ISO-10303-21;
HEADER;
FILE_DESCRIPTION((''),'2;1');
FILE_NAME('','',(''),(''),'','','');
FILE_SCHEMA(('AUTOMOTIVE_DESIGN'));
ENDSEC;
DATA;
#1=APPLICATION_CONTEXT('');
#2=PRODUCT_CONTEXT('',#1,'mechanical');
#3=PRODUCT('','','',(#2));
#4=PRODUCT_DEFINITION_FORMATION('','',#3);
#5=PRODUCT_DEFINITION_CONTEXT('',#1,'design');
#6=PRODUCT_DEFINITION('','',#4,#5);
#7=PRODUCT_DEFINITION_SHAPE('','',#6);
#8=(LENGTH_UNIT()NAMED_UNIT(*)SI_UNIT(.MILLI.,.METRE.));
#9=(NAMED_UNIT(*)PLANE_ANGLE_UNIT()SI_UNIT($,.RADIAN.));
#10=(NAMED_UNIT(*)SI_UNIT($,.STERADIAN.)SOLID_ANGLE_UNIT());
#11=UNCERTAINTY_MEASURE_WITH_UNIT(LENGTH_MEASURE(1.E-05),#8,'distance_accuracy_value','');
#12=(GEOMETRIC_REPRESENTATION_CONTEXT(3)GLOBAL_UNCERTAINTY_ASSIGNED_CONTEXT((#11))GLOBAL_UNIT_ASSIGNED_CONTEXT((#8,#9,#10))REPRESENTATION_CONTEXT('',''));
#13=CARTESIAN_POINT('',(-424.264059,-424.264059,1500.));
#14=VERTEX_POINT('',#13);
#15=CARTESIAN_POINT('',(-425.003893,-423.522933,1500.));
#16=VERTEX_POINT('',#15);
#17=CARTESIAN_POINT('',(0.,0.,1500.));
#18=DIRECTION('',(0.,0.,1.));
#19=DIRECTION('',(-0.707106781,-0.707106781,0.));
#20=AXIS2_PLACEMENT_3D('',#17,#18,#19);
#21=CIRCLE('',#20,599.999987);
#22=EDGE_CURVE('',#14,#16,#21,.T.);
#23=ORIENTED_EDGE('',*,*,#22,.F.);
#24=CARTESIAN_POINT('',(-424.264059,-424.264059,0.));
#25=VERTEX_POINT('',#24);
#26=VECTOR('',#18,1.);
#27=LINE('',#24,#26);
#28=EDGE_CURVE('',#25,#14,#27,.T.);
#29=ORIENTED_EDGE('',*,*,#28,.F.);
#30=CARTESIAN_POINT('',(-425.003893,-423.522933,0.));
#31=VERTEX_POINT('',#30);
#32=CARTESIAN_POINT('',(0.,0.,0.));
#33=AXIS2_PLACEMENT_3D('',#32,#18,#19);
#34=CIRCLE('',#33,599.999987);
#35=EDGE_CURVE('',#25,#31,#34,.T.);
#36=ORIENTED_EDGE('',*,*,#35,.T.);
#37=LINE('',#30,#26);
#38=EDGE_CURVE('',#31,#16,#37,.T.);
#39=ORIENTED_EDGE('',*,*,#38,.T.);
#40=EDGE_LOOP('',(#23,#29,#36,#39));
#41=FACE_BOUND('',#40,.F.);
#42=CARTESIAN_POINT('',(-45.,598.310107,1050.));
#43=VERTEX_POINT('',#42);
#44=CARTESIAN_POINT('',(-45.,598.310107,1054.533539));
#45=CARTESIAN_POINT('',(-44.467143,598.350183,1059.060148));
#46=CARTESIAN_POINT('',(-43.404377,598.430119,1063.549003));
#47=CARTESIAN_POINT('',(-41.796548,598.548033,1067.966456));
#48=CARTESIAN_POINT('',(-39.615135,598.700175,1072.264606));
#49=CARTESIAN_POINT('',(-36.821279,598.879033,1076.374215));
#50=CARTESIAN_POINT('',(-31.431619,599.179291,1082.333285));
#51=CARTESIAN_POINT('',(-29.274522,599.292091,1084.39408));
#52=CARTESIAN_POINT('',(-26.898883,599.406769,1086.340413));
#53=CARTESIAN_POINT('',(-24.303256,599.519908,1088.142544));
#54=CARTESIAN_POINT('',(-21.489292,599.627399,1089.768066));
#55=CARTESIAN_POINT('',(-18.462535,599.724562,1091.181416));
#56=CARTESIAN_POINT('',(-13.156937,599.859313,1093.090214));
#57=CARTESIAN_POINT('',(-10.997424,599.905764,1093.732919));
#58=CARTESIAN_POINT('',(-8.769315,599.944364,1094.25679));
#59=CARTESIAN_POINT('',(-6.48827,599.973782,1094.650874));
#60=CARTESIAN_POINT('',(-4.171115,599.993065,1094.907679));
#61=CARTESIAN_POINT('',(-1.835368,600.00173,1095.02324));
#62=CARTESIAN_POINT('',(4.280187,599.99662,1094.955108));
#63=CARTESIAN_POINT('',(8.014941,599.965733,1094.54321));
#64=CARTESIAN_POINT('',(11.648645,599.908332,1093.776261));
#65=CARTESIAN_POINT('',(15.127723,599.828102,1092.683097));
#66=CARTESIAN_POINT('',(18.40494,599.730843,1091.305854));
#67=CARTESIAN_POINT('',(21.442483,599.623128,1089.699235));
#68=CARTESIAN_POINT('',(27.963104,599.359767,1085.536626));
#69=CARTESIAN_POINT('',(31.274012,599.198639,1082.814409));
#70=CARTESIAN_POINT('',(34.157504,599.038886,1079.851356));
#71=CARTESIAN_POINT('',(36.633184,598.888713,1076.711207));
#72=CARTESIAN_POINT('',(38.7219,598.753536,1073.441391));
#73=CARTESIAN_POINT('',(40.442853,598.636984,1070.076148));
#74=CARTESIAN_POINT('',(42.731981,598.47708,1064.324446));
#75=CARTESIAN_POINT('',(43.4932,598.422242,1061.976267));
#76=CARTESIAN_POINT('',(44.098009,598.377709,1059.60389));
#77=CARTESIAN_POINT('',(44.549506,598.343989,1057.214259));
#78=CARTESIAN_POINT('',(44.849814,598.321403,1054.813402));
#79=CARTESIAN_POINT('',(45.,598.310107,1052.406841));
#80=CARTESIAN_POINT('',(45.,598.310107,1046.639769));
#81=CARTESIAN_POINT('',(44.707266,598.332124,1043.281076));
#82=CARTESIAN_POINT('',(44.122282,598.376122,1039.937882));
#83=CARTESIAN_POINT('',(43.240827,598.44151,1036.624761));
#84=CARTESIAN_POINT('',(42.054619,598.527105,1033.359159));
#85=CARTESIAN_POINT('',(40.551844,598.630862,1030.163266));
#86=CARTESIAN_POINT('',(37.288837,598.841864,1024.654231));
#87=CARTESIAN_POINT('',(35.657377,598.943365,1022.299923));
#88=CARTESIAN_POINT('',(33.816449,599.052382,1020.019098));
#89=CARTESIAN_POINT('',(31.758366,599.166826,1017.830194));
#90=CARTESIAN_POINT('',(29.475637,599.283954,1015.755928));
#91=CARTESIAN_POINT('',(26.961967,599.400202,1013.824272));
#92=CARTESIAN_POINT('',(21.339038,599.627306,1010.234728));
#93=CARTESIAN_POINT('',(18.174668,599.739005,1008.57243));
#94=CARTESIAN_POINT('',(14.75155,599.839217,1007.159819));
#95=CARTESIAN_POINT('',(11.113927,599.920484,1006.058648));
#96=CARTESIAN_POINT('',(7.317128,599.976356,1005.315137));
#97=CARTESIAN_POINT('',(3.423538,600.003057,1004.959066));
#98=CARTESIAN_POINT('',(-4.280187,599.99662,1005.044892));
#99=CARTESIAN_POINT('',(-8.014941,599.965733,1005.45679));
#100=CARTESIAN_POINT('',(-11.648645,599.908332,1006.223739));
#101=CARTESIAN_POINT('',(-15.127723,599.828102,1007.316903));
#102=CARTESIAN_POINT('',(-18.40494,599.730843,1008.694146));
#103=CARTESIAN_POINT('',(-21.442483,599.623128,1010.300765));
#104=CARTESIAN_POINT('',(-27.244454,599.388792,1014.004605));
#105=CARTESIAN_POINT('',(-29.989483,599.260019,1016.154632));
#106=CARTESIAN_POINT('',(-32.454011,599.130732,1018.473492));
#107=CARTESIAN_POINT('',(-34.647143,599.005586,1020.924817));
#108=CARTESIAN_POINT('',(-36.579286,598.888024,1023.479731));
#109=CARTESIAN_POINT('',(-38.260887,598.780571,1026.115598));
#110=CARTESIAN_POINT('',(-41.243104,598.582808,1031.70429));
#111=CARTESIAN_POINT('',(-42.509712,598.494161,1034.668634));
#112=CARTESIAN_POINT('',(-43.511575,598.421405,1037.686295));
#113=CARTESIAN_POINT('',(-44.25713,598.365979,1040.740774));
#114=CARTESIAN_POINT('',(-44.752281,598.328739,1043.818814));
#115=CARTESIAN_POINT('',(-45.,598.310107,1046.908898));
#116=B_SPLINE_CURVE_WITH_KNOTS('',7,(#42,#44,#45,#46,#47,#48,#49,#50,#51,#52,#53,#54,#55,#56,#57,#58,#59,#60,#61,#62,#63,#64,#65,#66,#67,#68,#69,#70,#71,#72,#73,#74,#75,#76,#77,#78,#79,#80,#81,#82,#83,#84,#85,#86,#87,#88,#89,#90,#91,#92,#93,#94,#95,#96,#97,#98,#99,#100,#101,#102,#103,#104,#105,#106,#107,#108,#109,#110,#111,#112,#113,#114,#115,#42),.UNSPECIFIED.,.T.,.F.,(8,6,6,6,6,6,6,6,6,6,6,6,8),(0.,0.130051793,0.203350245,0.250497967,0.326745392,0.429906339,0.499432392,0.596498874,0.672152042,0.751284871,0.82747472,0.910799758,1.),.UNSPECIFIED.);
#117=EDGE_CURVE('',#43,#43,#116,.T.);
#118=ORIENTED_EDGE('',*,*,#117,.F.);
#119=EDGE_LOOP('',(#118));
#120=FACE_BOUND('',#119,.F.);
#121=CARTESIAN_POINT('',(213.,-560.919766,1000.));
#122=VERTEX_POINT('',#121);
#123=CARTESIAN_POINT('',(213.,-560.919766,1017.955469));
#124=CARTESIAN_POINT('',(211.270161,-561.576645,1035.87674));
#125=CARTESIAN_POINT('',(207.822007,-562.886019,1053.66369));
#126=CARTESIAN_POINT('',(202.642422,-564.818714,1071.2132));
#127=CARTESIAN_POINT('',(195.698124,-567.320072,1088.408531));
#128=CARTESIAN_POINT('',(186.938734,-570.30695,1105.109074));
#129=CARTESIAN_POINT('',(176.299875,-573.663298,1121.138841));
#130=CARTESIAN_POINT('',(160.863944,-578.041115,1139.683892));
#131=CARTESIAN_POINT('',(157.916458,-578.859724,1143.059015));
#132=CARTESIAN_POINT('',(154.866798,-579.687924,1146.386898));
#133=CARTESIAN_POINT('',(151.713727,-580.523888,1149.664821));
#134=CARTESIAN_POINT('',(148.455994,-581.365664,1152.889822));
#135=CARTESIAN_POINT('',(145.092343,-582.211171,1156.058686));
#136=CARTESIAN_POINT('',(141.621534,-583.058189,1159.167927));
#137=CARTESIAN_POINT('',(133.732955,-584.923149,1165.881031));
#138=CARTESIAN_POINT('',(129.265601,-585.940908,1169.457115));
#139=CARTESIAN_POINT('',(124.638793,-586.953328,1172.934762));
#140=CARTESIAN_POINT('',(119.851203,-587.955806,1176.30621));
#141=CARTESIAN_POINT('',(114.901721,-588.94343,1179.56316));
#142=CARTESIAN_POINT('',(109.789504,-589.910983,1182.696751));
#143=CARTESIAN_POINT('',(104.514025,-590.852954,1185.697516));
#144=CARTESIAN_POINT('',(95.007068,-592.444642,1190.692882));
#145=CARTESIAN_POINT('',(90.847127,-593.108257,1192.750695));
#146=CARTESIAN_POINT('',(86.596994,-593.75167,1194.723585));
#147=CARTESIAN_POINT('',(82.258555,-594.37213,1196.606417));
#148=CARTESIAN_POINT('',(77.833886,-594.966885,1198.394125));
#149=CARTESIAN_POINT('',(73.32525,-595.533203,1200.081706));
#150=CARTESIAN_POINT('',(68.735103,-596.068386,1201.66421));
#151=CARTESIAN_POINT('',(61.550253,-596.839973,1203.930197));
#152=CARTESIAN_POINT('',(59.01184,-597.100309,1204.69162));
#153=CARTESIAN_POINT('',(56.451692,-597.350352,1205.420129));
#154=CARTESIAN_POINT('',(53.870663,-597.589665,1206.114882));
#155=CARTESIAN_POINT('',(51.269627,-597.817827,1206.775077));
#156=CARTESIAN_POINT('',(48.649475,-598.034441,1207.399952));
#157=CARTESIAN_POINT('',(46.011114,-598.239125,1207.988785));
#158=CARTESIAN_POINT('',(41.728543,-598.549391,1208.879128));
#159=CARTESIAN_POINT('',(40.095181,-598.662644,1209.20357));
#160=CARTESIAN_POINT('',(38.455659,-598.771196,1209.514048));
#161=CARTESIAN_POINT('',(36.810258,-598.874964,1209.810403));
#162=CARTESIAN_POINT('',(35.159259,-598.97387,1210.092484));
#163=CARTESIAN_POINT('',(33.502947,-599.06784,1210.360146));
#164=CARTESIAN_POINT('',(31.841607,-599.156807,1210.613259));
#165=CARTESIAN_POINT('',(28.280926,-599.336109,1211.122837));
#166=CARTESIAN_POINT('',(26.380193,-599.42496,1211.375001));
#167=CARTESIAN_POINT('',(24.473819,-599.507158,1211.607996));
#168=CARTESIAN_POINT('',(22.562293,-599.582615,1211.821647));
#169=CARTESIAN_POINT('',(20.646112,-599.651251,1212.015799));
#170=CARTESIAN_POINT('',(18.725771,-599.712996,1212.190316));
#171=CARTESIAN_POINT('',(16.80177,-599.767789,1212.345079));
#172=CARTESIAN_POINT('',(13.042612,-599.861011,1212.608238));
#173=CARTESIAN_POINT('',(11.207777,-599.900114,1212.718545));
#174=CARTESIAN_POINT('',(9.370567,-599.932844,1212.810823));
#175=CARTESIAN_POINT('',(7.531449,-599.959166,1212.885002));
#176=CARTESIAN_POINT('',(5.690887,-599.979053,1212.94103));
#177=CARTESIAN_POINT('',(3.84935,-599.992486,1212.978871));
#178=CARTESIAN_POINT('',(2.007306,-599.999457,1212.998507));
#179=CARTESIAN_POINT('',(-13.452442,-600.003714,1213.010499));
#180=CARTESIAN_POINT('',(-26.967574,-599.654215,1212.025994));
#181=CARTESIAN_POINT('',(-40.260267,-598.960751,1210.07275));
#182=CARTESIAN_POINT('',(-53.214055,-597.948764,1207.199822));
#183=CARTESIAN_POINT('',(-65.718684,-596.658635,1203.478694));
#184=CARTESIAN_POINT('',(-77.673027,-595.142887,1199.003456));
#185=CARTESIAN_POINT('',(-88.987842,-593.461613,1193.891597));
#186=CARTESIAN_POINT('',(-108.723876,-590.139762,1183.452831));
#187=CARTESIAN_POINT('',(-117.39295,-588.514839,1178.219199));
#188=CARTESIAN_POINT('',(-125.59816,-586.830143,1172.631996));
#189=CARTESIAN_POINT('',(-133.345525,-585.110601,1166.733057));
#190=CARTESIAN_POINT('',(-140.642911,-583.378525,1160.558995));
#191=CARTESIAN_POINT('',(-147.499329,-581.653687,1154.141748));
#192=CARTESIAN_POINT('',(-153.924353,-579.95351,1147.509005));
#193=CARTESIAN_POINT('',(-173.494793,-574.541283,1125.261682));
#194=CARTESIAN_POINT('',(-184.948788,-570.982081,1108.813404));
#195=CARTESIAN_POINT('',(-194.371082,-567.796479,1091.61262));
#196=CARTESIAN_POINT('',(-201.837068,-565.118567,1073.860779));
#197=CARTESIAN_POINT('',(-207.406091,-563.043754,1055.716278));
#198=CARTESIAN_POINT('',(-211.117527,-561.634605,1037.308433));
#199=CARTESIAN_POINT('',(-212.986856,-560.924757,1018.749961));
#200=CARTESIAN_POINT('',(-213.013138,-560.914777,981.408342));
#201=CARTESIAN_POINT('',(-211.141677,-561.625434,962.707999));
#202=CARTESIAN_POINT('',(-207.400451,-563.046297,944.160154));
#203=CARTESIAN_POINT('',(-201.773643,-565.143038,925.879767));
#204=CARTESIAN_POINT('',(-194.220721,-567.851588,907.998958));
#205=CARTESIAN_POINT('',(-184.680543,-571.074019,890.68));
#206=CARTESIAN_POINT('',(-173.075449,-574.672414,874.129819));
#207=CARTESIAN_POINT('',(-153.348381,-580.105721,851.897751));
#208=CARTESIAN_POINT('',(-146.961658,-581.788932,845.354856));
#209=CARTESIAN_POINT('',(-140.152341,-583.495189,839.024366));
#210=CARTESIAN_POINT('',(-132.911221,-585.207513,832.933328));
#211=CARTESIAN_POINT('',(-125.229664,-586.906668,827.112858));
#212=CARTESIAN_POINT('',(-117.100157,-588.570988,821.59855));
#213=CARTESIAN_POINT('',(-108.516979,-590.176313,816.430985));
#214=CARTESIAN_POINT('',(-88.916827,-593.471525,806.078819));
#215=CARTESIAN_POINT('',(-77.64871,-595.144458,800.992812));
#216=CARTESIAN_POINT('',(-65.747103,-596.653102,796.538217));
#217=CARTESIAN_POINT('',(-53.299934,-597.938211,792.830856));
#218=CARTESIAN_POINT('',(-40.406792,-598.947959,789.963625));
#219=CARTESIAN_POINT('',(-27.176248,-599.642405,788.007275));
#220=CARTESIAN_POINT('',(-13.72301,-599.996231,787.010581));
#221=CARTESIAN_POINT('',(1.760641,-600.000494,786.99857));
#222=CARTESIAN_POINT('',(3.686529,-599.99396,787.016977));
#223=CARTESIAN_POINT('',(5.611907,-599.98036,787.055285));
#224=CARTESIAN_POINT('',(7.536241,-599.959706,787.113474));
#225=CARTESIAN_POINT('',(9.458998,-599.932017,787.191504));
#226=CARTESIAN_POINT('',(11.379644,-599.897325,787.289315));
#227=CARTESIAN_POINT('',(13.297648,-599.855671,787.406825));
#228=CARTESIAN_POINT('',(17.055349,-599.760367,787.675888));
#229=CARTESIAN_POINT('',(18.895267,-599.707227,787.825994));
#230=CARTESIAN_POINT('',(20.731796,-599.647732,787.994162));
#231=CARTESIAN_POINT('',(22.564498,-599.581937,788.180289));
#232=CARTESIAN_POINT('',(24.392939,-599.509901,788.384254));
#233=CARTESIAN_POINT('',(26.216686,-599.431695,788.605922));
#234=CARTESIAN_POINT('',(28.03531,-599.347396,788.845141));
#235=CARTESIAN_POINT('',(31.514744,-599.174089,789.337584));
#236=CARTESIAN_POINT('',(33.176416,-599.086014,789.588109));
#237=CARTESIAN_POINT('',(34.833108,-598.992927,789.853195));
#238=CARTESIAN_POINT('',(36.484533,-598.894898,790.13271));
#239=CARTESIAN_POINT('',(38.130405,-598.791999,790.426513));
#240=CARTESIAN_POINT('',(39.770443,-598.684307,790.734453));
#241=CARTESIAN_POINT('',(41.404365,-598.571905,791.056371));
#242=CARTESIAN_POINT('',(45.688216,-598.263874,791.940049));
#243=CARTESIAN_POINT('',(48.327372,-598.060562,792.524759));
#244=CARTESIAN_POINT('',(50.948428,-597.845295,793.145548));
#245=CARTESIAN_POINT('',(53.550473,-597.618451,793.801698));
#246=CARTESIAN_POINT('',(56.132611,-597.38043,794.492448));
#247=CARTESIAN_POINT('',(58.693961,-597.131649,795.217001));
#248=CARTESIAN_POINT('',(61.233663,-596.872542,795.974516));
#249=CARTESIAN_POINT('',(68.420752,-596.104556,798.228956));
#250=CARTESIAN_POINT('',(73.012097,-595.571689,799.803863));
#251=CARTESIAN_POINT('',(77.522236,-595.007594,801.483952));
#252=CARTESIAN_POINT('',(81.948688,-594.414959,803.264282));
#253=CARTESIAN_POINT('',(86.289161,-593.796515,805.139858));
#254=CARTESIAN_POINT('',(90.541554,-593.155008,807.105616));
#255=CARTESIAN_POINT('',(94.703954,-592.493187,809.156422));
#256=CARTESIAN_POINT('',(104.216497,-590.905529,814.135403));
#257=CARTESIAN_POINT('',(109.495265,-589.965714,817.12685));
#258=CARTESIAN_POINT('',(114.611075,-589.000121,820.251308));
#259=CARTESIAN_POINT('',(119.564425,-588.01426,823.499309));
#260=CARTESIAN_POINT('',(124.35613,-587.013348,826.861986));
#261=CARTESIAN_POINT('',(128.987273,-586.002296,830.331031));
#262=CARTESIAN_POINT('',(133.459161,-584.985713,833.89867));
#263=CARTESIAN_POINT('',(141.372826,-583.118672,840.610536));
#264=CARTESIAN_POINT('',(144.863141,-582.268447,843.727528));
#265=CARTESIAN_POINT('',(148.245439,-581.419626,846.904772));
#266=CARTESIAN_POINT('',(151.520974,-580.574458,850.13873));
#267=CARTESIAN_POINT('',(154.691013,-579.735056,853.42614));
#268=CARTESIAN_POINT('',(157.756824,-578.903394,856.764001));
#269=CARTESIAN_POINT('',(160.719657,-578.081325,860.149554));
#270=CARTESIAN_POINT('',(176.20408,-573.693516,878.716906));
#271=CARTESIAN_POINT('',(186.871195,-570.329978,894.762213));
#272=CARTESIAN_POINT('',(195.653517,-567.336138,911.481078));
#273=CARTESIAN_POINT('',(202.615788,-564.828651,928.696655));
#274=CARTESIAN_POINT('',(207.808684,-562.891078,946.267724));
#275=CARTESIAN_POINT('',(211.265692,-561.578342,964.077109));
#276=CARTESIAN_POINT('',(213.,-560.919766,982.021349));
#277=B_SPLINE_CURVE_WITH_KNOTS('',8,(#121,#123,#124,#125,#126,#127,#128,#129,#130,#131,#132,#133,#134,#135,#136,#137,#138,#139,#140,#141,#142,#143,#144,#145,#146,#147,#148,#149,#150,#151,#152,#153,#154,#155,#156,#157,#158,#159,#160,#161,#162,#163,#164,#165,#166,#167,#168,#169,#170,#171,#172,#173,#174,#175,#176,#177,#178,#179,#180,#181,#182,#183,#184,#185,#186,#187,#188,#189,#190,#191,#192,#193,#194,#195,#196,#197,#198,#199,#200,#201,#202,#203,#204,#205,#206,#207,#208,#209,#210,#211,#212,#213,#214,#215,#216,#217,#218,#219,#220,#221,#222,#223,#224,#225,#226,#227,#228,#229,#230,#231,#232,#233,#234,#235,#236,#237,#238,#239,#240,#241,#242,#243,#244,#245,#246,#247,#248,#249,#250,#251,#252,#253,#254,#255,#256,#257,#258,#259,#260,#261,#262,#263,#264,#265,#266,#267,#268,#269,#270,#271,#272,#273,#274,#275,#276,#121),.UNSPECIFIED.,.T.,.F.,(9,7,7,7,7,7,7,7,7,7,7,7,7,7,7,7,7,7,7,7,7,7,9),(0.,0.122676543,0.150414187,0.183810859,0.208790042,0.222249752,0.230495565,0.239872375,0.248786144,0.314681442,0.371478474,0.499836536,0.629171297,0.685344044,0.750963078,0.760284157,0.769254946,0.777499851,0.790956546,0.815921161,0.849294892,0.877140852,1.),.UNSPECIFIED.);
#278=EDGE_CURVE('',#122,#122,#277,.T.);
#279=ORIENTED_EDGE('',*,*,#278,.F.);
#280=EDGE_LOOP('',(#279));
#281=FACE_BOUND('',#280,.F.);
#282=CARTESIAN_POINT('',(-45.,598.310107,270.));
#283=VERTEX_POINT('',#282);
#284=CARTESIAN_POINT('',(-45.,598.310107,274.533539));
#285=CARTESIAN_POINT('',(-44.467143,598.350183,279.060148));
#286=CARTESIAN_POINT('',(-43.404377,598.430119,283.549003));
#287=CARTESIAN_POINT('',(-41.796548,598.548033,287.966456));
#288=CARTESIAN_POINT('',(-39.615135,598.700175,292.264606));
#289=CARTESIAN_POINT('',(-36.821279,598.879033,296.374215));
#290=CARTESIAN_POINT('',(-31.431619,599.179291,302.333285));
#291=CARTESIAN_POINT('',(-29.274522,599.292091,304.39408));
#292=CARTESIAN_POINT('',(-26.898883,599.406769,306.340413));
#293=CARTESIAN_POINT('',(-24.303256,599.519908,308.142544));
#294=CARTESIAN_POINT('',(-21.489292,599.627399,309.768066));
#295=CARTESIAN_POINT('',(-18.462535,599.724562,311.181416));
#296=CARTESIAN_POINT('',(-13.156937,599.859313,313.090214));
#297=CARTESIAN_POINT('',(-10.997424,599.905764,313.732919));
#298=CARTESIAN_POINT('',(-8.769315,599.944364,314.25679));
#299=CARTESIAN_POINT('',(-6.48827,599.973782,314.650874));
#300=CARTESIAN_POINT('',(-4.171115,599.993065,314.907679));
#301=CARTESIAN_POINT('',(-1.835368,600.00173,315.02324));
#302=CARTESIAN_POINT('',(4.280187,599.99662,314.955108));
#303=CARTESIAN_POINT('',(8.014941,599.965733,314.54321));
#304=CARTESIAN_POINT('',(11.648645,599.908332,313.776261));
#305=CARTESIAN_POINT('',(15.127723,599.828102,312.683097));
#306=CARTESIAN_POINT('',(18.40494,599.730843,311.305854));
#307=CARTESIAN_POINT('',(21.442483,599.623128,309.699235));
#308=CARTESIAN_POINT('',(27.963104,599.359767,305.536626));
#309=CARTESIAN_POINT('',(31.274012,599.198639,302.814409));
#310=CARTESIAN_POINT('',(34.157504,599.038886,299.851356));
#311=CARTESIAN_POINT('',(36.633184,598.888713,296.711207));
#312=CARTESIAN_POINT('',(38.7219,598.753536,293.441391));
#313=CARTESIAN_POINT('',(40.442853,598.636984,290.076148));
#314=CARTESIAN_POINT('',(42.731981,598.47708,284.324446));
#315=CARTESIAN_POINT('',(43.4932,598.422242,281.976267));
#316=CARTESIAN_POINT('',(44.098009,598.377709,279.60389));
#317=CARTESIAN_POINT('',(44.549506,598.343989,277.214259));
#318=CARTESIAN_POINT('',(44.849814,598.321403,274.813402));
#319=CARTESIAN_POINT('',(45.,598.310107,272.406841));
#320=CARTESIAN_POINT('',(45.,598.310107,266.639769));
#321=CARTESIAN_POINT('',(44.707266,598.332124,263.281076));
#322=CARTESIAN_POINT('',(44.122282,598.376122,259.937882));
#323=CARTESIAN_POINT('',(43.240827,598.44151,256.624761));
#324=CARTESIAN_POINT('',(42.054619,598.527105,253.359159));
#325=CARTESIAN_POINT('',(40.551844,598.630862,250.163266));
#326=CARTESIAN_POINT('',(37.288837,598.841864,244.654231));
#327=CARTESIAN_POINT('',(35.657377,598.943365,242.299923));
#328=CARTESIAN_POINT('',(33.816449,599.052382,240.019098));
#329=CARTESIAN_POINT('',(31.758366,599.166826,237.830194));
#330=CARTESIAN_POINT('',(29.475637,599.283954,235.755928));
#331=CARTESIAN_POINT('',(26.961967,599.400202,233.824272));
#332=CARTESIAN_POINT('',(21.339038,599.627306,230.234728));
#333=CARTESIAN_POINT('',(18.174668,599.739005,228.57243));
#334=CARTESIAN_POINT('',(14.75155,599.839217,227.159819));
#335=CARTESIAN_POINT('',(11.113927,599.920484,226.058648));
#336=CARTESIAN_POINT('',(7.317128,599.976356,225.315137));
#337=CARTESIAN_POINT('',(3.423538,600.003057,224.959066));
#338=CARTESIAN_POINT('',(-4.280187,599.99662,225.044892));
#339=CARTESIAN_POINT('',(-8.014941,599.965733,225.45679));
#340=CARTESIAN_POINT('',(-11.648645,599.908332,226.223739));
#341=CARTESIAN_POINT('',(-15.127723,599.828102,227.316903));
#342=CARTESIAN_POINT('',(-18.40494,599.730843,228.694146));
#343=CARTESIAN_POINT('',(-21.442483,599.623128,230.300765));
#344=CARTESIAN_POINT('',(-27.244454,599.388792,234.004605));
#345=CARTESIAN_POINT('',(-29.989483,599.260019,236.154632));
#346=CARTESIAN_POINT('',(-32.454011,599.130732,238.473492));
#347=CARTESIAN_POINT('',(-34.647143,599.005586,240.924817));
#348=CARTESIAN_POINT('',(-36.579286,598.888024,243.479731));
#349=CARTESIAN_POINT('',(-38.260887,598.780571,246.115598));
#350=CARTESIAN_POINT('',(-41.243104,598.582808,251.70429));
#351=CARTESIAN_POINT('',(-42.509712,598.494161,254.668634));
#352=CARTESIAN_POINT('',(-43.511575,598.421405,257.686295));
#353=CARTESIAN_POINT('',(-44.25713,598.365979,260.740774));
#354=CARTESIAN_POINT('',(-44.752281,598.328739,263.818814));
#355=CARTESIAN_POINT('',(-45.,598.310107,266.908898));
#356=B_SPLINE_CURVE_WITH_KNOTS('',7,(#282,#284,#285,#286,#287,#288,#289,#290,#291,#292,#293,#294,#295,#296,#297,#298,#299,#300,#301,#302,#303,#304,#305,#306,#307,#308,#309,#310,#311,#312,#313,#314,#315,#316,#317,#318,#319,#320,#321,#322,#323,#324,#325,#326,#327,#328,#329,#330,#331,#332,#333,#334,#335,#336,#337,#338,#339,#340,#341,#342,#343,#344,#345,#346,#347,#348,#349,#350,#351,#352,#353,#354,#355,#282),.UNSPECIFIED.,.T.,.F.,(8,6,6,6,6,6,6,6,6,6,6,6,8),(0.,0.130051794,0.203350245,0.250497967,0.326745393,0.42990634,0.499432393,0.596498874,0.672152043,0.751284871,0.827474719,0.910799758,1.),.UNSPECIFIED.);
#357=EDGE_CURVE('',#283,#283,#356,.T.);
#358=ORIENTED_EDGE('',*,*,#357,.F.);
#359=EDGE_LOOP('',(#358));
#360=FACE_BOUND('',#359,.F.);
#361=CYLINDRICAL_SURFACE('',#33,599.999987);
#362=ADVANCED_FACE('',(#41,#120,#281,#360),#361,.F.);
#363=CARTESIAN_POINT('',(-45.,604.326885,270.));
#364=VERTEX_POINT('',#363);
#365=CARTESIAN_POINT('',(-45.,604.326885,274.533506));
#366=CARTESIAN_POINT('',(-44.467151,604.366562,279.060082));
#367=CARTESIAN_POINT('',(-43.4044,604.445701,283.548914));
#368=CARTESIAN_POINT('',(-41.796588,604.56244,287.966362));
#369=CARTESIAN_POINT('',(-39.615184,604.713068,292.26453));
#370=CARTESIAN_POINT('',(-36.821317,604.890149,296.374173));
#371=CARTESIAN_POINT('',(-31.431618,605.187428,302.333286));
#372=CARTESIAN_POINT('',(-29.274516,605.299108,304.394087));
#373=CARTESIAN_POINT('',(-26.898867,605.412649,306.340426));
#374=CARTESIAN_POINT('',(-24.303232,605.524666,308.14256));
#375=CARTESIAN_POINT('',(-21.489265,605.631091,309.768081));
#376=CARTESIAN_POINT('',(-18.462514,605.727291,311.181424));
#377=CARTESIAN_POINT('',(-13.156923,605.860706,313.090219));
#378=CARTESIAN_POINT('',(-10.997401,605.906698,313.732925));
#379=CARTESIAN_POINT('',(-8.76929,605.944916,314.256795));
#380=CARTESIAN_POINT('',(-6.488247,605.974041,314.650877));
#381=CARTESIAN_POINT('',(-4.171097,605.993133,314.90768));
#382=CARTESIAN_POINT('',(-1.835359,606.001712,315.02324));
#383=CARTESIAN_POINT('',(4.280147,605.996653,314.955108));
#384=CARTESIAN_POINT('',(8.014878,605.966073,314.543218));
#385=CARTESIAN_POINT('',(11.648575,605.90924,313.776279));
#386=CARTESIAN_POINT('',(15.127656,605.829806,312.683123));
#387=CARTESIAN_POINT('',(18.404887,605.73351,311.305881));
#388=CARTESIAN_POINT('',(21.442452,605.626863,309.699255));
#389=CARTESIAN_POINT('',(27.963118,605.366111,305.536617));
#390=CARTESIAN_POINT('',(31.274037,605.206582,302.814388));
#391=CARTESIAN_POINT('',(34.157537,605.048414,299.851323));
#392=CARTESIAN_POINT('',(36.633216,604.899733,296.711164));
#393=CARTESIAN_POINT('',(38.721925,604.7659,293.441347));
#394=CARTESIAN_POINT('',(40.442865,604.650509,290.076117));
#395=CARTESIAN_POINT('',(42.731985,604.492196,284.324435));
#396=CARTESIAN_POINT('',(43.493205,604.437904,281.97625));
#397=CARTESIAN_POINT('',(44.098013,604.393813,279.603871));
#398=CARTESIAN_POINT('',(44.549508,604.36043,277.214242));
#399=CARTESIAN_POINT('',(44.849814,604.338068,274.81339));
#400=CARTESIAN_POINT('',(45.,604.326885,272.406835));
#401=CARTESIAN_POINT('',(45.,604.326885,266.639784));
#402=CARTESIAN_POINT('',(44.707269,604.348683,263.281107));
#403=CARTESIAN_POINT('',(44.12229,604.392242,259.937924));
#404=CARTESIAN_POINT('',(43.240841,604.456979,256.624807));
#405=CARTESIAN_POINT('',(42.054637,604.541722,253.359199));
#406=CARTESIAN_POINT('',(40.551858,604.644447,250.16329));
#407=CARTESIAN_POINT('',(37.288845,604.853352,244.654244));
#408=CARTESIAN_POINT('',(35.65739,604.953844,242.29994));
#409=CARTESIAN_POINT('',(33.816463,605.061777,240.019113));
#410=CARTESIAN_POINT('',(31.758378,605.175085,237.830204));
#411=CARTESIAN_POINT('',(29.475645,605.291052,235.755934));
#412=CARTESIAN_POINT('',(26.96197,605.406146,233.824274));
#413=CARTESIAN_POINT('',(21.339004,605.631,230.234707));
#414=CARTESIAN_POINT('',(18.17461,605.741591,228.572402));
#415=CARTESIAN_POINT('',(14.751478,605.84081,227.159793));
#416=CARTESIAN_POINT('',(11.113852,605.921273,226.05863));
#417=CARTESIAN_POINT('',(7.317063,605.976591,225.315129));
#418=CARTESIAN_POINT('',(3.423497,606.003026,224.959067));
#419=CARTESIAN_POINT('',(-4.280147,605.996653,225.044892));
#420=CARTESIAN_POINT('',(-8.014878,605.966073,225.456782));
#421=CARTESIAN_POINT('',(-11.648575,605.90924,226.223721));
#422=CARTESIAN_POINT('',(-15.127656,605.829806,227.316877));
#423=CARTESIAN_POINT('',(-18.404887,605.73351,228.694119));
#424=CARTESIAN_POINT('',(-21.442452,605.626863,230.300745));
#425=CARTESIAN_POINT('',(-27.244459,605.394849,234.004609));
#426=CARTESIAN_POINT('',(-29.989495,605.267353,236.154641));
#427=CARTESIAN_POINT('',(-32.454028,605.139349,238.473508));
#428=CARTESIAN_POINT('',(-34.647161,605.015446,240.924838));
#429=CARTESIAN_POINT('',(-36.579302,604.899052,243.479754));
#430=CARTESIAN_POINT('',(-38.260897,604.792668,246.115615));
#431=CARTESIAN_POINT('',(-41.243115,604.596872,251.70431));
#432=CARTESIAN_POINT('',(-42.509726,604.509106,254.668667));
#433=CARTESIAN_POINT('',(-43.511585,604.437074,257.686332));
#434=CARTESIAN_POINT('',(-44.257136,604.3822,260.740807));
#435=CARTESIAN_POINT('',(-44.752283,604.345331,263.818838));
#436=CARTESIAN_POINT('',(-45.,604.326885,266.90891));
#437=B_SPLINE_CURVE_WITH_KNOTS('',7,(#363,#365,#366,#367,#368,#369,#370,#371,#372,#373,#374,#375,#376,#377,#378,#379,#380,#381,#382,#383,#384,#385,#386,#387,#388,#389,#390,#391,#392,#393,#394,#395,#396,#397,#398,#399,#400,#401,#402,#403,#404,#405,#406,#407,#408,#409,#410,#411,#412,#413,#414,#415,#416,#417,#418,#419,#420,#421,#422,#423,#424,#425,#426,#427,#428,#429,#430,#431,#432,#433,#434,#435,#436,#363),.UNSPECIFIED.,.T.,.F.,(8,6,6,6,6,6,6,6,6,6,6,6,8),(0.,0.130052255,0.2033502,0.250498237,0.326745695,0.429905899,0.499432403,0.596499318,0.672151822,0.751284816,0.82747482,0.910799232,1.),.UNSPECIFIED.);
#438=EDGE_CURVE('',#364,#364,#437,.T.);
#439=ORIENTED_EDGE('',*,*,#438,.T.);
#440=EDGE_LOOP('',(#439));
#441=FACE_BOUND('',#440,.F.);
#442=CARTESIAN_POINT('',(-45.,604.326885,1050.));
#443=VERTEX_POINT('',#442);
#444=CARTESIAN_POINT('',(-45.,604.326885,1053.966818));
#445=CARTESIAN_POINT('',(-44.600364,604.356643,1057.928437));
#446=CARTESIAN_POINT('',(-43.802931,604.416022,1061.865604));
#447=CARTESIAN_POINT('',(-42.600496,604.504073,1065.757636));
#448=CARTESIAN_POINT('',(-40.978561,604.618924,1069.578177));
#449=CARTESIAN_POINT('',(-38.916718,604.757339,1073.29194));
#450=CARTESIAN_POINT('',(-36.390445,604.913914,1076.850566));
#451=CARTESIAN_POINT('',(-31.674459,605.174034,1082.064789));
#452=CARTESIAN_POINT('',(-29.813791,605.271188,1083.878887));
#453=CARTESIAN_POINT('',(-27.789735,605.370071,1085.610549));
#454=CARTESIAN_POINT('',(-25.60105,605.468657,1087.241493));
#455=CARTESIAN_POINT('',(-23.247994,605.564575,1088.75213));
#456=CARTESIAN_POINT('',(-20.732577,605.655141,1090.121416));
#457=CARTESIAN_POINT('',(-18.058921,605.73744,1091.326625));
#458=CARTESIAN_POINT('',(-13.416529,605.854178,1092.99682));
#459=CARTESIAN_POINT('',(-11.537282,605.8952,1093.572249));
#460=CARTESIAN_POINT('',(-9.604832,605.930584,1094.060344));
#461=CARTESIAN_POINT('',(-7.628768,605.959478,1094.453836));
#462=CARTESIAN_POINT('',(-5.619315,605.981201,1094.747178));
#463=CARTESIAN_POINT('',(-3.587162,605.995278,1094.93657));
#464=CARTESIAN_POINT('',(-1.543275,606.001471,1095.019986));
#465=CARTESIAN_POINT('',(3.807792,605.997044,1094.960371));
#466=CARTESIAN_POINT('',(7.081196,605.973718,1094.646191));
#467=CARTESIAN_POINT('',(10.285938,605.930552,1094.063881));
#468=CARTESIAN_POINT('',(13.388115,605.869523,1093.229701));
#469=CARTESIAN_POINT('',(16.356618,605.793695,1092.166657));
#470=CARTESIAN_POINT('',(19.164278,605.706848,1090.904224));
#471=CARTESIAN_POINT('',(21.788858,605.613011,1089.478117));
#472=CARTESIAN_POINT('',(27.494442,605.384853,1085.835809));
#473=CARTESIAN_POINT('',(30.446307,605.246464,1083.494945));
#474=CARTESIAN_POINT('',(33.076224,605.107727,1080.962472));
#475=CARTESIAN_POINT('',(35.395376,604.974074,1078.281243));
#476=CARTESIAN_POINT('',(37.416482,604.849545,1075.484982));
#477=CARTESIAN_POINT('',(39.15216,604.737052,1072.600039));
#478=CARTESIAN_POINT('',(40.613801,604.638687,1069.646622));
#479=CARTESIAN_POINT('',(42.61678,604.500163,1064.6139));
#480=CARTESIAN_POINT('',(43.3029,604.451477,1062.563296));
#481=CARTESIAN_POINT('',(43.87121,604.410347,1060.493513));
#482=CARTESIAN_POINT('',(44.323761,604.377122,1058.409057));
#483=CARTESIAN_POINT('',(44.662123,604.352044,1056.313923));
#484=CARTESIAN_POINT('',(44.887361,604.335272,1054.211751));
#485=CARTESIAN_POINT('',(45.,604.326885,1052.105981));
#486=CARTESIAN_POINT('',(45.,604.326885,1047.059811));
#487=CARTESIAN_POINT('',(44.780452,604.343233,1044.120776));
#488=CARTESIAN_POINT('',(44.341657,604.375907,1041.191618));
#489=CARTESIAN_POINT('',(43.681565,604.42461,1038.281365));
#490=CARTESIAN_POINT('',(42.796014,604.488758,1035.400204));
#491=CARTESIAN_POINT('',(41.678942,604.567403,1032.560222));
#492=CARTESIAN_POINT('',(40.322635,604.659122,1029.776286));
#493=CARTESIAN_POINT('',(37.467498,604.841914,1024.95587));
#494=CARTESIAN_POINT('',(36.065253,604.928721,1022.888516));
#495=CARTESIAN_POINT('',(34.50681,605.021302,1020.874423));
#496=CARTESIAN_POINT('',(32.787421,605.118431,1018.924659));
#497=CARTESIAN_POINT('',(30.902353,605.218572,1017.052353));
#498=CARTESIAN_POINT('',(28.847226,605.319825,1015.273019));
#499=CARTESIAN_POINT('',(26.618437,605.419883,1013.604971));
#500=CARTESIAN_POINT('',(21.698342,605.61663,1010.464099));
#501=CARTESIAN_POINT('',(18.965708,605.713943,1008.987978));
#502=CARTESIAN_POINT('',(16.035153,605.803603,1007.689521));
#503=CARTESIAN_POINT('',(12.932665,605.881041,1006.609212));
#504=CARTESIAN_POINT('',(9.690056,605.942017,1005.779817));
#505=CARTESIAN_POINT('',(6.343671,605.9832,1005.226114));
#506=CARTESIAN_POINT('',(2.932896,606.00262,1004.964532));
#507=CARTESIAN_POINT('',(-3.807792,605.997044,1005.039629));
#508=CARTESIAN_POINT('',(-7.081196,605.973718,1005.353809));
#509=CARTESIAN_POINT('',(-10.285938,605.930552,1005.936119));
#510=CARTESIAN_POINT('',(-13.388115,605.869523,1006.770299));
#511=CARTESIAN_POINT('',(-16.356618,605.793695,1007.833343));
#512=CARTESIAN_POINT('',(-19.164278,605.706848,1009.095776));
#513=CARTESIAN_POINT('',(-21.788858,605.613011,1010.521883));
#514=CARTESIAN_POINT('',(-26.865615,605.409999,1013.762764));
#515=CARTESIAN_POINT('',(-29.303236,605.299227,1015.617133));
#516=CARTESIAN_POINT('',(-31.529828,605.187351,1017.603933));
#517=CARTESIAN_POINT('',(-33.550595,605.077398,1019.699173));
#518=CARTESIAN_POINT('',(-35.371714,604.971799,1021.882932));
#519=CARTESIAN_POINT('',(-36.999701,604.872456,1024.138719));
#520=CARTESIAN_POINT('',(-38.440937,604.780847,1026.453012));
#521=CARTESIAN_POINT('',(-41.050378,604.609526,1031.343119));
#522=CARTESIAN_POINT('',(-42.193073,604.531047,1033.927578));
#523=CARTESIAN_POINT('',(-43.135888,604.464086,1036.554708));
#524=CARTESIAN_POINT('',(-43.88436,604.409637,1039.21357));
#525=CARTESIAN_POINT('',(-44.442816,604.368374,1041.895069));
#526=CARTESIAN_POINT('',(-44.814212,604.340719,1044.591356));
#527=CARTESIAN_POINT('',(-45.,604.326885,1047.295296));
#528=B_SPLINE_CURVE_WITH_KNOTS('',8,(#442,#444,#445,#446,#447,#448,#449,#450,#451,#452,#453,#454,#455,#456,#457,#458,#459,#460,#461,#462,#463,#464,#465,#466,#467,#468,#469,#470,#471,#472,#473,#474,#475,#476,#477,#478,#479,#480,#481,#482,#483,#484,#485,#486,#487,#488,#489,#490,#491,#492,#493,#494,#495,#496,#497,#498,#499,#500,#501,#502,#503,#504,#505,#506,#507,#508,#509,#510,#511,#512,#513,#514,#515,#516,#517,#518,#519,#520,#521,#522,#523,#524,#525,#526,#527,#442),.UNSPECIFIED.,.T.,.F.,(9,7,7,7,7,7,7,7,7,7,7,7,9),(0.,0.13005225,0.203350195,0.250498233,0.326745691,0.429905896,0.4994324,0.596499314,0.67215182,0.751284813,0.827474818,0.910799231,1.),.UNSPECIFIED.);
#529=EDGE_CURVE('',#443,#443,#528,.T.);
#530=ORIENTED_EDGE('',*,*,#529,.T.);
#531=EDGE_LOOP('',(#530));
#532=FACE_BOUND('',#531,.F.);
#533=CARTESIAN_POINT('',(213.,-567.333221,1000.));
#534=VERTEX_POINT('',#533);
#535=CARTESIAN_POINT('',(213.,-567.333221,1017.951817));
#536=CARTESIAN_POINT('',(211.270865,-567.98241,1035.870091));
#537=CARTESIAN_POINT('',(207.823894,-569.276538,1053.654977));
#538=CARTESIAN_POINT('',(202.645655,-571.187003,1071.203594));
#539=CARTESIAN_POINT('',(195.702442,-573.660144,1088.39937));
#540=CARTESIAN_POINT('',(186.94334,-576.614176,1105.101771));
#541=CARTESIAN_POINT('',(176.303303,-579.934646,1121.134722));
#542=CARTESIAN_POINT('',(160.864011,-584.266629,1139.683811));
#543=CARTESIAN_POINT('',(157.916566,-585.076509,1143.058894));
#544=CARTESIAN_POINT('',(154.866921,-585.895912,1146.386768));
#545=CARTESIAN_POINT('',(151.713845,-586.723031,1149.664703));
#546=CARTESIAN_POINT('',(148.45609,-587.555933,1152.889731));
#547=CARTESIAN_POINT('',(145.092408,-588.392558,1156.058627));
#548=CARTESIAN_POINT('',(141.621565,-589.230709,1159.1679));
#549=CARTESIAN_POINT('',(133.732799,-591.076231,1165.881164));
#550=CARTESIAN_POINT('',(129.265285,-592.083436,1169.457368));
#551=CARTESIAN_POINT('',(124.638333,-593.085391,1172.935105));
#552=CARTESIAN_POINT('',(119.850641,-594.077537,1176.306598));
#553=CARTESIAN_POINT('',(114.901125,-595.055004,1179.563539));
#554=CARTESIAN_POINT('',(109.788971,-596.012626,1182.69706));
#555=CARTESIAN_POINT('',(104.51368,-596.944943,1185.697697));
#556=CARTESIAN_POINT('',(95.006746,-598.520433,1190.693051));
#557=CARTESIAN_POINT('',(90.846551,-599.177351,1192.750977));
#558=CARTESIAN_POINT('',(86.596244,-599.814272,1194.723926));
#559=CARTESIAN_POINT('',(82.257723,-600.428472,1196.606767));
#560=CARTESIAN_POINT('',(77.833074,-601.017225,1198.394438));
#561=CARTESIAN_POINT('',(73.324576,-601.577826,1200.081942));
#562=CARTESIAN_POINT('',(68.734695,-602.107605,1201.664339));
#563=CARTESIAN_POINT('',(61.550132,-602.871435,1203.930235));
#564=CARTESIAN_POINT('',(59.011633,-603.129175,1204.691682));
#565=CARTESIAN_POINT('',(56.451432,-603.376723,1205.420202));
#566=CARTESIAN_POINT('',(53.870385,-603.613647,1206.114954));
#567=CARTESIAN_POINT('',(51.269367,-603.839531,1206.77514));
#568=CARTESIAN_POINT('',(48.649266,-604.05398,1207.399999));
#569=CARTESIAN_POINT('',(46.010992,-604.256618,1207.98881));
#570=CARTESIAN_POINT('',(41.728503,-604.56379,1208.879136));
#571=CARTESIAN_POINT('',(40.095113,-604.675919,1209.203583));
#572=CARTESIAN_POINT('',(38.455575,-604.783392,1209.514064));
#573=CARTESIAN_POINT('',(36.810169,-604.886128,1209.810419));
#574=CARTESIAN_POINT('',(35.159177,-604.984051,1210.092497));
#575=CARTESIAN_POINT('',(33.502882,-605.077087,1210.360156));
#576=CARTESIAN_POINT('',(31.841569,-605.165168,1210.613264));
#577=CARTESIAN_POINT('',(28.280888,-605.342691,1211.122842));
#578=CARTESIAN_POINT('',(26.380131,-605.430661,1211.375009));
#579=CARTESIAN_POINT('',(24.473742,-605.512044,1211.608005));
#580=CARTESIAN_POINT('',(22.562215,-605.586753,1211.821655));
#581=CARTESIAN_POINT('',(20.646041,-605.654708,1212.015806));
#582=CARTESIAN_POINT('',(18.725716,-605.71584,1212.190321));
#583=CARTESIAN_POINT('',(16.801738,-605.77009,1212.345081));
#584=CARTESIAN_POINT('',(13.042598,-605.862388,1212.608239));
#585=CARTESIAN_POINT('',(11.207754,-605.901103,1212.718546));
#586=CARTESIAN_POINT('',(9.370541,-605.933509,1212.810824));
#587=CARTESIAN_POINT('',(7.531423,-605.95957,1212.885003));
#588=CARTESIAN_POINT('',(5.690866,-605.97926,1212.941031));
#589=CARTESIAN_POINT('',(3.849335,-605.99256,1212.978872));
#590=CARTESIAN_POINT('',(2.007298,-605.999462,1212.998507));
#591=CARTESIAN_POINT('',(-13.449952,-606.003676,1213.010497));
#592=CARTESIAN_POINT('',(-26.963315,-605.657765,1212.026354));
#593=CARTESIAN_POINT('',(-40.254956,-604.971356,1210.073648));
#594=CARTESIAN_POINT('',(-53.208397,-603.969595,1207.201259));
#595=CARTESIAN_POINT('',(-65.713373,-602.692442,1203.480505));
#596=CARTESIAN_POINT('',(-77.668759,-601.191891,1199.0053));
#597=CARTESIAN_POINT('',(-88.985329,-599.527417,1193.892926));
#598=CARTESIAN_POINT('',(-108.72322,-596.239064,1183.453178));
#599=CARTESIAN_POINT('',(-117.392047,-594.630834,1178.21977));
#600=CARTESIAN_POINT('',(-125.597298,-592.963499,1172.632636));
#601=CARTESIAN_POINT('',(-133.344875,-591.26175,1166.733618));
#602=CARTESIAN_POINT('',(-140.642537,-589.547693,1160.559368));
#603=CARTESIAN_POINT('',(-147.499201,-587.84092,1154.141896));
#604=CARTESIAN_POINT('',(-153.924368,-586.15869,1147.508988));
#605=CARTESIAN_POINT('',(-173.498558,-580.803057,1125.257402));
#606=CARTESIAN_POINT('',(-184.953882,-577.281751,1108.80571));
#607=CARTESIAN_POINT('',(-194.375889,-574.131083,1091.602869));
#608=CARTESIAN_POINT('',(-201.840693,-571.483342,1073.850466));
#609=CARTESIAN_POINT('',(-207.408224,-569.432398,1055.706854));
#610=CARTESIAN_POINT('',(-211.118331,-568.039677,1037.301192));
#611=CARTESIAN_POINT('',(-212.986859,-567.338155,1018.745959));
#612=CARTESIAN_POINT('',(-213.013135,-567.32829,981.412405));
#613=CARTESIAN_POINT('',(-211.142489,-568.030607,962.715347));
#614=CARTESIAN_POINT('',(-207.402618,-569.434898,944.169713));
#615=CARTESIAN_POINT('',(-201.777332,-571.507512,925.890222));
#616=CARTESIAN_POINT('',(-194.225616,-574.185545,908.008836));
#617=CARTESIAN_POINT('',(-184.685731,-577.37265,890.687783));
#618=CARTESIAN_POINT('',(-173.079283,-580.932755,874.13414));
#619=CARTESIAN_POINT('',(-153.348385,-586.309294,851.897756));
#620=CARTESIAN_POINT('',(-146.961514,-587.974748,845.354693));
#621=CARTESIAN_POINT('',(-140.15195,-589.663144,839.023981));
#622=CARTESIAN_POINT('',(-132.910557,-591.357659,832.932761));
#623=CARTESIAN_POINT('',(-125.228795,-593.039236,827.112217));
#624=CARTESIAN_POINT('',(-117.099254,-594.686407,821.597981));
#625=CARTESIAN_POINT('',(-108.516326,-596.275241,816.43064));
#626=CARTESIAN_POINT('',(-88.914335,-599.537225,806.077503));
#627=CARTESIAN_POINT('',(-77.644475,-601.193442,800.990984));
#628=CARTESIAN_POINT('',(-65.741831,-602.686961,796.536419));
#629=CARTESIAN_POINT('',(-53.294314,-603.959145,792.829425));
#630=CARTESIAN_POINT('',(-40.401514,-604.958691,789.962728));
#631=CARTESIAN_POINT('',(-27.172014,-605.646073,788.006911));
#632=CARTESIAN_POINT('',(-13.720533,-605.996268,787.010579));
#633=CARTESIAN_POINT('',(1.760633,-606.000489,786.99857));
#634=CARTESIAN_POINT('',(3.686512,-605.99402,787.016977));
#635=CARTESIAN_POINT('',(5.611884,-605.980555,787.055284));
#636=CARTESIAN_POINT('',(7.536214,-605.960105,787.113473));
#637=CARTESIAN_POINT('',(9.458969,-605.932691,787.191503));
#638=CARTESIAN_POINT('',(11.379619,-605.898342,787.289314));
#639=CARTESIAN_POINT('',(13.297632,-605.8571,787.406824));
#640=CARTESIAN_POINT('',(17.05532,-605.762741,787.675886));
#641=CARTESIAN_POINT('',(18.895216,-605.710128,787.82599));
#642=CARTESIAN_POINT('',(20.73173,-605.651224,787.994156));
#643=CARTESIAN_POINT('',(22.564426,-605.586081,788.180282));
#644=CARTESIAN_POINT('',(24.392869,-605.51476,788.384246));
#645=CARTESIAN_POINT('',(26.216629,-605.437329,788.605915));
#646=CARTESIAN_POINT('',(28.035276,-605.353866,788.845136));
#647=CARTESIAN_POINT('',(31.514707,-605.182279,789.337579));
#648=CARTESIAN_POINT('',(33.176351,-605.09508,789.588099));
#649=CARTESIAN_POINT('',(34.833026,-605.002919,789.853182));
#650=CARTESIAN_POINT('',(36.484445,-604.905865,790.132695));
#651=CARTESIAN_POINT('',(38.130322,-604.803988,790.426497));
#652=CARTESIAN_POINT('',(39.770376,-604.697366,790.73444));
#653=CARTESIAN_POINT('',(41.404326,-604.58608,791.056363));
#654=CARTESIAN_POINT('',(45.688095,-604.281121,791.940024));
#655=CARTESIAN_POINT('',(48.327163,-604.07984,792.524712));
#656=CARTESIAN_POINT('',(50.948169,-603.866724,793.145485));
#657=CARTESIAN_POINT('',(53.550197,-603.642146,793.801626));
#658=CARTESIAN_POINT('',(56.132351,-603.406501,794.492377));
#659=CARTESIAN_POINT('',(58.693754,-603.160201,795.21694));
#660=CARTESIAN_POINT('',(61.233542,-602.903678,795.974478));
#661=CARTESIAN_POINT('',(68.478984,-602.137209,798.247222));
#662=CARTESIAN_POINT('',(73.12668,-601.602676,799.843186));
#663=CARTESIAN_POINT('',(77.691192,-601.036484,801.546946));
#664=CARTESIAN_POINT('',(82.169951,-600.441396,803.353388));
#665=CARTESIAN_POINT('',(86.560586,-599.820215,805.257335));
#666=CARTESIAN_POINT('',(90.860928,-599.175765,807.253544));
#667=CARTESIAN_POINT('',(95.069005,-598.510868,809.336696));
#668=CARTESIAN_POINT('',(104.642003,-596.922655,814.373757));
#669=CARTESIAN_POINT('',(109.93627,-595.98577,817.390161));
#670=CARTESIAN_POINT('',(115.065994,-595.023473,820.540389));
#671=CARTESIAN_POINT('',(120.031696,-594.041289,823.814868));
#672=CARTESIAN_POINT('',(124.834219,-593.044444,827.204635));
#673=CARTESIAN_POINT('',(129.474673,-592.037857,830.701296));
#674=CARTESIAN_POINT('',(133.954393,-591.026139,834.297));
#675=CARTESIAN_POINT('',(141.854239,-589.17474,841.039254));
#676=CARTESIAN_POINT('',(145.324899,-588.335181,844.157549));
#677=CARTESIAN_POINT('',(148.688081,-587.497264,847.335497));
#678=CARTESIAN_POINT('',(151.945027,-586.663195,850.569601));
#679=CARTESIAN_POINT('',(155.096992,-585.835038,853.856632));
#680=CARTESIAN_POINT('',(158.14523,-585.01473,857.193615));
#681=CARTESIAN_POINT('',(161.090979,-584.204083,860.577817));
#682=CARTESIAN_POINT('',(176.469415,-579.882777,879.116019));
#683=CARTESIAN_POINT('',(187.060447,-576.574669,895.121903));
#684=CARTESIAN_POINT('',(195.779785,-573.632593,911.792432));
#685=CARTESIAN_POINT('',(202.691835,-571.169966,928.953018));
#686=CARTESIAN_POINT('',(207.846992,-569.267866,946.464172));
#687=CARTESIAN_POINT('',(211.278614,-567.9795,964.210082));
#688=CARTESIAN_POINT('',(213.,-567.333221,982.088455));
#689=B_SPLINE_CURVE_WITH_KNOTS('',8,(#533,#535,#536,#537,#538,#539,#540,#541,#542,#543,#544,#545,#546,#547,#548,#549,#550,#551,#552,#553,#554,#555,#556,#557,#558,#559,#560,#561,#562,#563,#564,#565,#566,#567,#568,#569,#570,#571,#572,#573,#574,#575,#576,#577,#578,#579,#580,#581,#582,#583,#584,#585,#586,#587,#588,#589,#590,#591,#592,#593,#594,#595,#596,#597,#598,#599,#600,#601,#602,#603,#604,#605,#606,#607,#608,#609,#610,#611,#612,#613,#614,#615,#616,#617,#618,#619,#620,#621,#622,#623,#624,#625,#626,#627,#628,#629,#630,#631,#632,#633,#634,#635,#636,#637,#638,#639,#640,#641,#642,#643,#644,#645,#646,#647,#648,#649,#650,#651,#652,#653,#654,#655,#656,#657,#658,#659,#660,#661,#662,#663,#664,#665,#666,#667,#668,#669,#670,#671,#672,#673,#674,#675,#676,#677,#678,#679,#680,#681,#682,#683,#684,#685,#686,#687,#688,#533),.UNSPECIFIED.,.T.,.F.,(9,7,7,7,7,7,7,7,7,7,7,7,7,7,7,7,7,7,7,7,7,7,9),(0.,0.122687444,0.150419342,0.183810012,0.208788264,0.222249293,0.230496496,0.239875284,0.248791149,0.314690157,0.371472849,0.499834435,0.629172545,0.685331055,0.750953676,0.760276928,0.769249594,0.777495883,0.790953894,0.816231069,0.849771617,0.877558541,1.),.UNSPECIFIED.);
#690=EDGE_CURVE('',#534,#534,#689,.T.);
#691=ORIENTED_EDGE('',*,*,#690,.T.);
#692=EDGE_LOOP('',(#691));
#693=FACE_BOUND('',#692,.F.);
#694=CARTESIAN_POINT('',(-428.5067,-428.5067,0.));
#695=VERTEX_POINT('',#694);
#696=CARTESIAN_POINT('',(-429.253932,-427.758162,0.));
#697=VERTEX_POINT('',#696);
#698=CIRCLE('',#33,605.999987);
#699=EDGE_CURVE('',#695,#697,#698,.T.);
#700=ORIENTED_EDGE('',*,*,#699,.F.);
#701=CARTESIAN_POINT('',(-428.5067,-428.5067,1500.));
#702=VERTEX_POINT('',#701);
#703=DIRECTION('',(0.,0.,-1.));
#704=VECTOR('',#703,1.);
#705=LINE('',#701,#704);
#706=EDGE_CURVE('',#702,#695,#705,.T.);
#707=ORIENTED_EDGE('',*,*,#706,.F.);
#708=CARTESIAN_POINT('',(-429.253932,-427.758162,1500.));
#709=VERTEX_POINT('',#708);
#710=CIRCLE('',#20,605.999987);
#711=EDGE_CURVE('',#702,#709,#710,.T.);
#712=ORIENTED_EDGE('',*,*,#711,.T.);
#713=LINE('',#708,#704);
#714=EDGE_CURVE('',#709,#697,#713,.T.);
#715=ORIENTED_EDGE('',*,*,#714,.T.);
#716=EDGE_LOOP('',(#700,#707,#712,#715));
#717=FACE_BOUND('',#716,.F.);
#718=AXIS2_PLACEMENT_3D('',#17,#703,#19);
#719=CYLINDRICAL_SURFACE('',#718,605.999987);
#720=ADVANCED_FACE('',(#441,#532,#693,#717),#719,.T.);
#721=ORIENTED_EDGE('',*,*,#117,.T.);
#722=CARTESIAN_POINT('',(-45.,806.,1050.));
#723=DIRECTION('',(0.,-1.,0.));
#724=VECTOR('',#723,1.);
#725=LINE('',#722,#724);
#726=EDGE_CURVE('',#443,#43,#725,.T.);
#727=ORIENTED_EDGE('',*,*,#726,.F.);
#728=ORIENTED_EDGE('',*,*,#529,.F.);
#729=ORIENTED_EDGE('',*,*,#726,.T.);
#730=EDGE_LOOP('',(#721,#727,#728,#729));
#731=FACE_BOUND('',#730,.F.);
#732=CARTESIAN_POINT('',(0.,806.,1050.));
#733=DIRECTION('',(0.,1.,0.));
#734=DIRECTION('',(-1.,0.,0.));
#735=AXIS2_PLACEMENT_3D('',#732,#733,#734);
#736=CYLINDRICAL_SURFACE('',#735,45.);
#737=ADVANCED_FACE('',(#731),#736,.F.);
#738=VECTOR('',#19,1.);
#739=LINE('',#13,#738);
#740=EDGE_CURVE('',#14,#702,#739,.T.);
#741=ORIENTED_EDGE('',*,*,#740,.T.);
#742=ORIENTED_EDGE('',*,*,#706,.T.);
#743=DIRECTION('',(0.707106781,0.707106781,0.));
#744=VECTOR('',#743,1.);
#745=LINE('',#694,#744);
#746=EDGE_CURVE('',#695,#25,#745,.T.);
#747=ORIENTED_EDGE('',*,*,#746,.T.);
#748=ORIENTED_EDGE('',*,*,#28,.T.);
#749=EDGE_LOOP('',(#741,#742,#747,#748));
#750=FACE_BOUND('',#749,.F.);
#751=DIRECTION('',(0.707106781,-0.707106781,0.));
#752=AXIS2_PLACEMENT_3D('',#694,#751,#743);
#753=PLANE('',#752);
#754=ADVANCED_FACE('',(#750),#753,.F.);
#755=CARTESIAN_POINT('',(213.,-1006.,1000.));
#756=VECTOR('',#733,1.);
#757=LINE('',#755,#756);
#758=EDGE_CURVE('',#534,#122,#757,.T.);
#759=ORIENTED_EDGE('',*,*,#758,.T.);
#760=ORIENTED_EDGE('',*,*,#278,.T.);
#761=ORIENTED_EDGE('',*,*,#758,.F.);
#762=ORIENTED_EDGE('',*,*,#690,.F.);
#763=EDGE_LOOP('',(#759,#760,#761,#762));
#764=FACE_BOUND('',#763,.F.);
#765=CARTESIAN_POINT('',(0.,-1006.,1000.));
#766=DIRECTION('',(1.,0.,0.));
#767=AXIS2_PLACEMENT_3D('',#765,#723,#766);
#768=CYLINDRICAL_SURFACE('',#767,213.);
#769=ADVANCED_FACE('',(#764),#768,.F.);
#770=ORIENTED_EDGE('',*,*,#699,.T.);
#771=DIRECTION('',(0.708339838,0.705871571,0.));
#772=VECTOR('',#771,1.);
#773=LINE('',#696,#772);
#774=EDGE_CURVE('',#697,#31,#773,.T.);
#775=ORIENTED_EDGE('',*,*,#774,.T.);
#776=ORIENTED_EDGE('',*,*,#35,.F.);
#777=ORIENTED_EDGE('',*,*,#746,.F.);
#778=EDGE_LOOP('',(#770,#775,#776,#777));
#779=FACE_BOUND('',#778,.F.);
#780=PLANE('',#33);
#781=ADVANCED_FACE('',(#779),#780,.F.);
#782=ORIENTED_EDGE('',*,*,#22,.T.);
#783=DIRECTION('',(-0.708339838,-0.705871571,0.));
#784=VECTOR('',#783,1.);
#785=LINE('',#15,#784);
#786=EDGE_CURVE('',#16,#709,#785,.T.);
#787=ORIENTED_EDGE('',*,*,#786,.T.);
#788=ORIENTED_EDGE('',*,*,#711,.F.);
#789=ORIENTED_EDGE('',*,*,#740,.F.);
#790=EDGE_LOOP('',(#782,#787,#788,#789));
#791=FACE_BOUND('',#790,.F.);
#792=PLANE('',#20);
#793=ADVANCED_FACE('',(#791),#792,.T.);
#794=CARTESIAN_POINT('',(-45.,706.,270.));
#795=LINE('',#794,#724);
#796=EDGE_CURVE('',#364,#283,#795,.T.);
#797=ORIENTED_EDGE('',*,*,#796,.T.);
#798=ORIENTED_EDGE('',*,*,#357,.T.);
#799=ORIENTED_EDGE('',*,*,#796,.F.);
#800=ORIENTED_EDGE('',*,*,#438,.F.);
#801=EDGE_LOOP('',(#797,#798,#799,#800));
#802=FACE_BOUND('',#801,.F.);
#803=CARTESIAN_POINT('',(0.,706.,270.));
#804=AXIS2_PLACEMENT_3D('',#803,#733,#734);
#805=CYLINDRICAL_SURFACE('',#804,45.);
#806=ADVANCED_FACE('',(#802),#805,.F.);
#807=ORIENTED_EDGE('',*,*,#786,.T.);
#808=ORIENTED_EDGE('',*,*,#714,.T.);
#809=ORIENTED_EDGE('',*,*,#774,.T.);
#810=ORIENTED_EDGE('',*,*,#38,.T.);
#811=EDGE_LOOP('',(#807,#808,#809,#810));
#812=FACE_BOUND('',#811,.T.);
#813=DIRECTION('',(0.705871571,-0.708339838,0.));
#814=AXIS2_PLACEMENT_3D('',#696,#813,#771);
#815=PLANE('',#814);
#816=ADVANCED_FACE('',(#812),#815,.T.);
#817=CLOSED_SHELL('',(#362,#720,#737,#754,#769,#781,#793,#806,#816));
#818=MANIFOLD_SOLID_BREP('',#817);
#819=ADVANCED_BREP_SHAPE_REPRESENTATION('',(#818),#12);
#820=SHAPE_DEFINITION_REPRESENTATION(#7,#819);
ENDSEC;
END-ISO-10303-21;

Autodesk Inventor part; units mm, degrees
sketch "floor angle sketch" plane through (0, 0, 0) normal (0, 0, 1) x (1, 0, 0)
  line L0 (0, 0) -> (0, -240.1382) construction
  line L1 (0, 0) -> (0, -1006)
  line L2 (-428.5067, -428.5067) -> (428.5067, 428.5067) construction
  circle A0 centre (0, 0) radius 606 construction
  line L3 (0, 0) -> (0, 806)
  line L4 (45, 806) -> (-45, 806)
  line L5 (-213, -1006) -> (213, -1006)
  line L6 (0, 0) -> (-309.8702, -851.3615)
  line L7 (0, 0) -> (0, 706)
  line L8 (45, 706) -> (-45, 706)
  line L9 (-370.9503, -829.1302) -> (-248.7902, -873.5928)
  dimension "d51" = 1212
  dimension "d52" = 45
  dimension "d54" = 0
  dimension "d55" = 180
  dimension "d56" = 426
  dimension "d58" = 90
  dimension "d59" = 90
  dimension "d60" = 180
  dimension "d61" = 706
  dimension "d62" = 130
  dimension "d63" = 20
  dimension "d64" = 806
  dimension "d65" = 906
  dimension "d66" = 1006
ref_plane "SHELL Plane" through (-428.5067, -428.5067, 0) normal (0.7071, -0.7071, 0) x (0.7071, 0.7071, 0)
ref_plane "ACCESS Plane" through (-213, -1006, 0) normal (0, -1, 0) x (1, 0, 0)
ref_plane "OUTER Plane" through (45, 806, 0) normal (0, 1, 0) x (-1, 0, 0)
ref_plane "INNER Plane" through (45, 706, 0) normal (0, 1, 0) x (-1, 0, 0)
ref_plane "CHARGE Plane" through (-370.9503, -829.1302, 0) normal (-0.342, -0.9397, 0) x (0.9397, -0.342, 0)
sketch "Sketch13" plane through (-428.5067, -428.5067, 0) normal (0.7071, -0.7071, 0) x (0.7071, 0.7071, 0)
  line L0 (606, 0) -> (606, 892.6829)
  line L1 (0, 0) -> (6, 0)
  line L2 (6, 0) -> (6, 1500)
  line L3 (6, 1500) -> (0, 1500)
  line L4 (0, 1500) -> (0, 0)
  dimension "d75" = 1500
  dimension "d76" = 6
  dimension "d77" = 1212
revolve "Revolution2" add sketch "Sketch13" angle 359.9 about axis through (0, 0, 0) along (0, 0, 1)
sketch "Sketch14" plane through (-213, -1006, 0) normal (0, -1, 0) x (1, 0, 0)
  circle A0 centre (213, 1000) radius 213
  point P0 (213, 0)
  dimension "d79" = 1000
  dimension "d80" = 426
extrude "ACCESS" cut sketch "Sketch14" against normal up to next
sketch "Sketch15" plane through (45, 706, 0) normal (0, 1, 0) x (-1, 0, 0)
  circle A0 centre (45, 270) radius 45
  point P0 (45, 0)
  dimension "d84" = 90
  dimension "d85" = 270
extrude "INNER" cut sketch "Sketch15" against normal up to next
sketch "Sketch16" plane through (45, 806, 0) normal (0, 1, 0) x (-1, 0, 0)
  circle A0 centre (45, 1050) radius 45
  point P0 (45, 0)
  dimension "d88" = 1050
  dimension "d89" = 90
extrude "Extrusion9" cut sketch "Sketch16" against normal up to next
equation "\"BendRadius\" = Thickness"
equation "\"BendReliefWidth\" = Thickness"
equation "\"BendReliefDepth\" = 0.5 * Thickness"
equation "\"CornerReliefSize\" = 4 * Thickness"
equation "\"MinimumRemnant\" = 2 * Thickness"
equation "\"TransitionRadius\" = BendRadius"
equation "\"JacobiRadiusSize\" = BendRadius"
equation "\"GapSize\" = Thickness"
equation "\"Thickness\" = 6"
properties part number "TZS 1202 SHELL" material "Steel"
